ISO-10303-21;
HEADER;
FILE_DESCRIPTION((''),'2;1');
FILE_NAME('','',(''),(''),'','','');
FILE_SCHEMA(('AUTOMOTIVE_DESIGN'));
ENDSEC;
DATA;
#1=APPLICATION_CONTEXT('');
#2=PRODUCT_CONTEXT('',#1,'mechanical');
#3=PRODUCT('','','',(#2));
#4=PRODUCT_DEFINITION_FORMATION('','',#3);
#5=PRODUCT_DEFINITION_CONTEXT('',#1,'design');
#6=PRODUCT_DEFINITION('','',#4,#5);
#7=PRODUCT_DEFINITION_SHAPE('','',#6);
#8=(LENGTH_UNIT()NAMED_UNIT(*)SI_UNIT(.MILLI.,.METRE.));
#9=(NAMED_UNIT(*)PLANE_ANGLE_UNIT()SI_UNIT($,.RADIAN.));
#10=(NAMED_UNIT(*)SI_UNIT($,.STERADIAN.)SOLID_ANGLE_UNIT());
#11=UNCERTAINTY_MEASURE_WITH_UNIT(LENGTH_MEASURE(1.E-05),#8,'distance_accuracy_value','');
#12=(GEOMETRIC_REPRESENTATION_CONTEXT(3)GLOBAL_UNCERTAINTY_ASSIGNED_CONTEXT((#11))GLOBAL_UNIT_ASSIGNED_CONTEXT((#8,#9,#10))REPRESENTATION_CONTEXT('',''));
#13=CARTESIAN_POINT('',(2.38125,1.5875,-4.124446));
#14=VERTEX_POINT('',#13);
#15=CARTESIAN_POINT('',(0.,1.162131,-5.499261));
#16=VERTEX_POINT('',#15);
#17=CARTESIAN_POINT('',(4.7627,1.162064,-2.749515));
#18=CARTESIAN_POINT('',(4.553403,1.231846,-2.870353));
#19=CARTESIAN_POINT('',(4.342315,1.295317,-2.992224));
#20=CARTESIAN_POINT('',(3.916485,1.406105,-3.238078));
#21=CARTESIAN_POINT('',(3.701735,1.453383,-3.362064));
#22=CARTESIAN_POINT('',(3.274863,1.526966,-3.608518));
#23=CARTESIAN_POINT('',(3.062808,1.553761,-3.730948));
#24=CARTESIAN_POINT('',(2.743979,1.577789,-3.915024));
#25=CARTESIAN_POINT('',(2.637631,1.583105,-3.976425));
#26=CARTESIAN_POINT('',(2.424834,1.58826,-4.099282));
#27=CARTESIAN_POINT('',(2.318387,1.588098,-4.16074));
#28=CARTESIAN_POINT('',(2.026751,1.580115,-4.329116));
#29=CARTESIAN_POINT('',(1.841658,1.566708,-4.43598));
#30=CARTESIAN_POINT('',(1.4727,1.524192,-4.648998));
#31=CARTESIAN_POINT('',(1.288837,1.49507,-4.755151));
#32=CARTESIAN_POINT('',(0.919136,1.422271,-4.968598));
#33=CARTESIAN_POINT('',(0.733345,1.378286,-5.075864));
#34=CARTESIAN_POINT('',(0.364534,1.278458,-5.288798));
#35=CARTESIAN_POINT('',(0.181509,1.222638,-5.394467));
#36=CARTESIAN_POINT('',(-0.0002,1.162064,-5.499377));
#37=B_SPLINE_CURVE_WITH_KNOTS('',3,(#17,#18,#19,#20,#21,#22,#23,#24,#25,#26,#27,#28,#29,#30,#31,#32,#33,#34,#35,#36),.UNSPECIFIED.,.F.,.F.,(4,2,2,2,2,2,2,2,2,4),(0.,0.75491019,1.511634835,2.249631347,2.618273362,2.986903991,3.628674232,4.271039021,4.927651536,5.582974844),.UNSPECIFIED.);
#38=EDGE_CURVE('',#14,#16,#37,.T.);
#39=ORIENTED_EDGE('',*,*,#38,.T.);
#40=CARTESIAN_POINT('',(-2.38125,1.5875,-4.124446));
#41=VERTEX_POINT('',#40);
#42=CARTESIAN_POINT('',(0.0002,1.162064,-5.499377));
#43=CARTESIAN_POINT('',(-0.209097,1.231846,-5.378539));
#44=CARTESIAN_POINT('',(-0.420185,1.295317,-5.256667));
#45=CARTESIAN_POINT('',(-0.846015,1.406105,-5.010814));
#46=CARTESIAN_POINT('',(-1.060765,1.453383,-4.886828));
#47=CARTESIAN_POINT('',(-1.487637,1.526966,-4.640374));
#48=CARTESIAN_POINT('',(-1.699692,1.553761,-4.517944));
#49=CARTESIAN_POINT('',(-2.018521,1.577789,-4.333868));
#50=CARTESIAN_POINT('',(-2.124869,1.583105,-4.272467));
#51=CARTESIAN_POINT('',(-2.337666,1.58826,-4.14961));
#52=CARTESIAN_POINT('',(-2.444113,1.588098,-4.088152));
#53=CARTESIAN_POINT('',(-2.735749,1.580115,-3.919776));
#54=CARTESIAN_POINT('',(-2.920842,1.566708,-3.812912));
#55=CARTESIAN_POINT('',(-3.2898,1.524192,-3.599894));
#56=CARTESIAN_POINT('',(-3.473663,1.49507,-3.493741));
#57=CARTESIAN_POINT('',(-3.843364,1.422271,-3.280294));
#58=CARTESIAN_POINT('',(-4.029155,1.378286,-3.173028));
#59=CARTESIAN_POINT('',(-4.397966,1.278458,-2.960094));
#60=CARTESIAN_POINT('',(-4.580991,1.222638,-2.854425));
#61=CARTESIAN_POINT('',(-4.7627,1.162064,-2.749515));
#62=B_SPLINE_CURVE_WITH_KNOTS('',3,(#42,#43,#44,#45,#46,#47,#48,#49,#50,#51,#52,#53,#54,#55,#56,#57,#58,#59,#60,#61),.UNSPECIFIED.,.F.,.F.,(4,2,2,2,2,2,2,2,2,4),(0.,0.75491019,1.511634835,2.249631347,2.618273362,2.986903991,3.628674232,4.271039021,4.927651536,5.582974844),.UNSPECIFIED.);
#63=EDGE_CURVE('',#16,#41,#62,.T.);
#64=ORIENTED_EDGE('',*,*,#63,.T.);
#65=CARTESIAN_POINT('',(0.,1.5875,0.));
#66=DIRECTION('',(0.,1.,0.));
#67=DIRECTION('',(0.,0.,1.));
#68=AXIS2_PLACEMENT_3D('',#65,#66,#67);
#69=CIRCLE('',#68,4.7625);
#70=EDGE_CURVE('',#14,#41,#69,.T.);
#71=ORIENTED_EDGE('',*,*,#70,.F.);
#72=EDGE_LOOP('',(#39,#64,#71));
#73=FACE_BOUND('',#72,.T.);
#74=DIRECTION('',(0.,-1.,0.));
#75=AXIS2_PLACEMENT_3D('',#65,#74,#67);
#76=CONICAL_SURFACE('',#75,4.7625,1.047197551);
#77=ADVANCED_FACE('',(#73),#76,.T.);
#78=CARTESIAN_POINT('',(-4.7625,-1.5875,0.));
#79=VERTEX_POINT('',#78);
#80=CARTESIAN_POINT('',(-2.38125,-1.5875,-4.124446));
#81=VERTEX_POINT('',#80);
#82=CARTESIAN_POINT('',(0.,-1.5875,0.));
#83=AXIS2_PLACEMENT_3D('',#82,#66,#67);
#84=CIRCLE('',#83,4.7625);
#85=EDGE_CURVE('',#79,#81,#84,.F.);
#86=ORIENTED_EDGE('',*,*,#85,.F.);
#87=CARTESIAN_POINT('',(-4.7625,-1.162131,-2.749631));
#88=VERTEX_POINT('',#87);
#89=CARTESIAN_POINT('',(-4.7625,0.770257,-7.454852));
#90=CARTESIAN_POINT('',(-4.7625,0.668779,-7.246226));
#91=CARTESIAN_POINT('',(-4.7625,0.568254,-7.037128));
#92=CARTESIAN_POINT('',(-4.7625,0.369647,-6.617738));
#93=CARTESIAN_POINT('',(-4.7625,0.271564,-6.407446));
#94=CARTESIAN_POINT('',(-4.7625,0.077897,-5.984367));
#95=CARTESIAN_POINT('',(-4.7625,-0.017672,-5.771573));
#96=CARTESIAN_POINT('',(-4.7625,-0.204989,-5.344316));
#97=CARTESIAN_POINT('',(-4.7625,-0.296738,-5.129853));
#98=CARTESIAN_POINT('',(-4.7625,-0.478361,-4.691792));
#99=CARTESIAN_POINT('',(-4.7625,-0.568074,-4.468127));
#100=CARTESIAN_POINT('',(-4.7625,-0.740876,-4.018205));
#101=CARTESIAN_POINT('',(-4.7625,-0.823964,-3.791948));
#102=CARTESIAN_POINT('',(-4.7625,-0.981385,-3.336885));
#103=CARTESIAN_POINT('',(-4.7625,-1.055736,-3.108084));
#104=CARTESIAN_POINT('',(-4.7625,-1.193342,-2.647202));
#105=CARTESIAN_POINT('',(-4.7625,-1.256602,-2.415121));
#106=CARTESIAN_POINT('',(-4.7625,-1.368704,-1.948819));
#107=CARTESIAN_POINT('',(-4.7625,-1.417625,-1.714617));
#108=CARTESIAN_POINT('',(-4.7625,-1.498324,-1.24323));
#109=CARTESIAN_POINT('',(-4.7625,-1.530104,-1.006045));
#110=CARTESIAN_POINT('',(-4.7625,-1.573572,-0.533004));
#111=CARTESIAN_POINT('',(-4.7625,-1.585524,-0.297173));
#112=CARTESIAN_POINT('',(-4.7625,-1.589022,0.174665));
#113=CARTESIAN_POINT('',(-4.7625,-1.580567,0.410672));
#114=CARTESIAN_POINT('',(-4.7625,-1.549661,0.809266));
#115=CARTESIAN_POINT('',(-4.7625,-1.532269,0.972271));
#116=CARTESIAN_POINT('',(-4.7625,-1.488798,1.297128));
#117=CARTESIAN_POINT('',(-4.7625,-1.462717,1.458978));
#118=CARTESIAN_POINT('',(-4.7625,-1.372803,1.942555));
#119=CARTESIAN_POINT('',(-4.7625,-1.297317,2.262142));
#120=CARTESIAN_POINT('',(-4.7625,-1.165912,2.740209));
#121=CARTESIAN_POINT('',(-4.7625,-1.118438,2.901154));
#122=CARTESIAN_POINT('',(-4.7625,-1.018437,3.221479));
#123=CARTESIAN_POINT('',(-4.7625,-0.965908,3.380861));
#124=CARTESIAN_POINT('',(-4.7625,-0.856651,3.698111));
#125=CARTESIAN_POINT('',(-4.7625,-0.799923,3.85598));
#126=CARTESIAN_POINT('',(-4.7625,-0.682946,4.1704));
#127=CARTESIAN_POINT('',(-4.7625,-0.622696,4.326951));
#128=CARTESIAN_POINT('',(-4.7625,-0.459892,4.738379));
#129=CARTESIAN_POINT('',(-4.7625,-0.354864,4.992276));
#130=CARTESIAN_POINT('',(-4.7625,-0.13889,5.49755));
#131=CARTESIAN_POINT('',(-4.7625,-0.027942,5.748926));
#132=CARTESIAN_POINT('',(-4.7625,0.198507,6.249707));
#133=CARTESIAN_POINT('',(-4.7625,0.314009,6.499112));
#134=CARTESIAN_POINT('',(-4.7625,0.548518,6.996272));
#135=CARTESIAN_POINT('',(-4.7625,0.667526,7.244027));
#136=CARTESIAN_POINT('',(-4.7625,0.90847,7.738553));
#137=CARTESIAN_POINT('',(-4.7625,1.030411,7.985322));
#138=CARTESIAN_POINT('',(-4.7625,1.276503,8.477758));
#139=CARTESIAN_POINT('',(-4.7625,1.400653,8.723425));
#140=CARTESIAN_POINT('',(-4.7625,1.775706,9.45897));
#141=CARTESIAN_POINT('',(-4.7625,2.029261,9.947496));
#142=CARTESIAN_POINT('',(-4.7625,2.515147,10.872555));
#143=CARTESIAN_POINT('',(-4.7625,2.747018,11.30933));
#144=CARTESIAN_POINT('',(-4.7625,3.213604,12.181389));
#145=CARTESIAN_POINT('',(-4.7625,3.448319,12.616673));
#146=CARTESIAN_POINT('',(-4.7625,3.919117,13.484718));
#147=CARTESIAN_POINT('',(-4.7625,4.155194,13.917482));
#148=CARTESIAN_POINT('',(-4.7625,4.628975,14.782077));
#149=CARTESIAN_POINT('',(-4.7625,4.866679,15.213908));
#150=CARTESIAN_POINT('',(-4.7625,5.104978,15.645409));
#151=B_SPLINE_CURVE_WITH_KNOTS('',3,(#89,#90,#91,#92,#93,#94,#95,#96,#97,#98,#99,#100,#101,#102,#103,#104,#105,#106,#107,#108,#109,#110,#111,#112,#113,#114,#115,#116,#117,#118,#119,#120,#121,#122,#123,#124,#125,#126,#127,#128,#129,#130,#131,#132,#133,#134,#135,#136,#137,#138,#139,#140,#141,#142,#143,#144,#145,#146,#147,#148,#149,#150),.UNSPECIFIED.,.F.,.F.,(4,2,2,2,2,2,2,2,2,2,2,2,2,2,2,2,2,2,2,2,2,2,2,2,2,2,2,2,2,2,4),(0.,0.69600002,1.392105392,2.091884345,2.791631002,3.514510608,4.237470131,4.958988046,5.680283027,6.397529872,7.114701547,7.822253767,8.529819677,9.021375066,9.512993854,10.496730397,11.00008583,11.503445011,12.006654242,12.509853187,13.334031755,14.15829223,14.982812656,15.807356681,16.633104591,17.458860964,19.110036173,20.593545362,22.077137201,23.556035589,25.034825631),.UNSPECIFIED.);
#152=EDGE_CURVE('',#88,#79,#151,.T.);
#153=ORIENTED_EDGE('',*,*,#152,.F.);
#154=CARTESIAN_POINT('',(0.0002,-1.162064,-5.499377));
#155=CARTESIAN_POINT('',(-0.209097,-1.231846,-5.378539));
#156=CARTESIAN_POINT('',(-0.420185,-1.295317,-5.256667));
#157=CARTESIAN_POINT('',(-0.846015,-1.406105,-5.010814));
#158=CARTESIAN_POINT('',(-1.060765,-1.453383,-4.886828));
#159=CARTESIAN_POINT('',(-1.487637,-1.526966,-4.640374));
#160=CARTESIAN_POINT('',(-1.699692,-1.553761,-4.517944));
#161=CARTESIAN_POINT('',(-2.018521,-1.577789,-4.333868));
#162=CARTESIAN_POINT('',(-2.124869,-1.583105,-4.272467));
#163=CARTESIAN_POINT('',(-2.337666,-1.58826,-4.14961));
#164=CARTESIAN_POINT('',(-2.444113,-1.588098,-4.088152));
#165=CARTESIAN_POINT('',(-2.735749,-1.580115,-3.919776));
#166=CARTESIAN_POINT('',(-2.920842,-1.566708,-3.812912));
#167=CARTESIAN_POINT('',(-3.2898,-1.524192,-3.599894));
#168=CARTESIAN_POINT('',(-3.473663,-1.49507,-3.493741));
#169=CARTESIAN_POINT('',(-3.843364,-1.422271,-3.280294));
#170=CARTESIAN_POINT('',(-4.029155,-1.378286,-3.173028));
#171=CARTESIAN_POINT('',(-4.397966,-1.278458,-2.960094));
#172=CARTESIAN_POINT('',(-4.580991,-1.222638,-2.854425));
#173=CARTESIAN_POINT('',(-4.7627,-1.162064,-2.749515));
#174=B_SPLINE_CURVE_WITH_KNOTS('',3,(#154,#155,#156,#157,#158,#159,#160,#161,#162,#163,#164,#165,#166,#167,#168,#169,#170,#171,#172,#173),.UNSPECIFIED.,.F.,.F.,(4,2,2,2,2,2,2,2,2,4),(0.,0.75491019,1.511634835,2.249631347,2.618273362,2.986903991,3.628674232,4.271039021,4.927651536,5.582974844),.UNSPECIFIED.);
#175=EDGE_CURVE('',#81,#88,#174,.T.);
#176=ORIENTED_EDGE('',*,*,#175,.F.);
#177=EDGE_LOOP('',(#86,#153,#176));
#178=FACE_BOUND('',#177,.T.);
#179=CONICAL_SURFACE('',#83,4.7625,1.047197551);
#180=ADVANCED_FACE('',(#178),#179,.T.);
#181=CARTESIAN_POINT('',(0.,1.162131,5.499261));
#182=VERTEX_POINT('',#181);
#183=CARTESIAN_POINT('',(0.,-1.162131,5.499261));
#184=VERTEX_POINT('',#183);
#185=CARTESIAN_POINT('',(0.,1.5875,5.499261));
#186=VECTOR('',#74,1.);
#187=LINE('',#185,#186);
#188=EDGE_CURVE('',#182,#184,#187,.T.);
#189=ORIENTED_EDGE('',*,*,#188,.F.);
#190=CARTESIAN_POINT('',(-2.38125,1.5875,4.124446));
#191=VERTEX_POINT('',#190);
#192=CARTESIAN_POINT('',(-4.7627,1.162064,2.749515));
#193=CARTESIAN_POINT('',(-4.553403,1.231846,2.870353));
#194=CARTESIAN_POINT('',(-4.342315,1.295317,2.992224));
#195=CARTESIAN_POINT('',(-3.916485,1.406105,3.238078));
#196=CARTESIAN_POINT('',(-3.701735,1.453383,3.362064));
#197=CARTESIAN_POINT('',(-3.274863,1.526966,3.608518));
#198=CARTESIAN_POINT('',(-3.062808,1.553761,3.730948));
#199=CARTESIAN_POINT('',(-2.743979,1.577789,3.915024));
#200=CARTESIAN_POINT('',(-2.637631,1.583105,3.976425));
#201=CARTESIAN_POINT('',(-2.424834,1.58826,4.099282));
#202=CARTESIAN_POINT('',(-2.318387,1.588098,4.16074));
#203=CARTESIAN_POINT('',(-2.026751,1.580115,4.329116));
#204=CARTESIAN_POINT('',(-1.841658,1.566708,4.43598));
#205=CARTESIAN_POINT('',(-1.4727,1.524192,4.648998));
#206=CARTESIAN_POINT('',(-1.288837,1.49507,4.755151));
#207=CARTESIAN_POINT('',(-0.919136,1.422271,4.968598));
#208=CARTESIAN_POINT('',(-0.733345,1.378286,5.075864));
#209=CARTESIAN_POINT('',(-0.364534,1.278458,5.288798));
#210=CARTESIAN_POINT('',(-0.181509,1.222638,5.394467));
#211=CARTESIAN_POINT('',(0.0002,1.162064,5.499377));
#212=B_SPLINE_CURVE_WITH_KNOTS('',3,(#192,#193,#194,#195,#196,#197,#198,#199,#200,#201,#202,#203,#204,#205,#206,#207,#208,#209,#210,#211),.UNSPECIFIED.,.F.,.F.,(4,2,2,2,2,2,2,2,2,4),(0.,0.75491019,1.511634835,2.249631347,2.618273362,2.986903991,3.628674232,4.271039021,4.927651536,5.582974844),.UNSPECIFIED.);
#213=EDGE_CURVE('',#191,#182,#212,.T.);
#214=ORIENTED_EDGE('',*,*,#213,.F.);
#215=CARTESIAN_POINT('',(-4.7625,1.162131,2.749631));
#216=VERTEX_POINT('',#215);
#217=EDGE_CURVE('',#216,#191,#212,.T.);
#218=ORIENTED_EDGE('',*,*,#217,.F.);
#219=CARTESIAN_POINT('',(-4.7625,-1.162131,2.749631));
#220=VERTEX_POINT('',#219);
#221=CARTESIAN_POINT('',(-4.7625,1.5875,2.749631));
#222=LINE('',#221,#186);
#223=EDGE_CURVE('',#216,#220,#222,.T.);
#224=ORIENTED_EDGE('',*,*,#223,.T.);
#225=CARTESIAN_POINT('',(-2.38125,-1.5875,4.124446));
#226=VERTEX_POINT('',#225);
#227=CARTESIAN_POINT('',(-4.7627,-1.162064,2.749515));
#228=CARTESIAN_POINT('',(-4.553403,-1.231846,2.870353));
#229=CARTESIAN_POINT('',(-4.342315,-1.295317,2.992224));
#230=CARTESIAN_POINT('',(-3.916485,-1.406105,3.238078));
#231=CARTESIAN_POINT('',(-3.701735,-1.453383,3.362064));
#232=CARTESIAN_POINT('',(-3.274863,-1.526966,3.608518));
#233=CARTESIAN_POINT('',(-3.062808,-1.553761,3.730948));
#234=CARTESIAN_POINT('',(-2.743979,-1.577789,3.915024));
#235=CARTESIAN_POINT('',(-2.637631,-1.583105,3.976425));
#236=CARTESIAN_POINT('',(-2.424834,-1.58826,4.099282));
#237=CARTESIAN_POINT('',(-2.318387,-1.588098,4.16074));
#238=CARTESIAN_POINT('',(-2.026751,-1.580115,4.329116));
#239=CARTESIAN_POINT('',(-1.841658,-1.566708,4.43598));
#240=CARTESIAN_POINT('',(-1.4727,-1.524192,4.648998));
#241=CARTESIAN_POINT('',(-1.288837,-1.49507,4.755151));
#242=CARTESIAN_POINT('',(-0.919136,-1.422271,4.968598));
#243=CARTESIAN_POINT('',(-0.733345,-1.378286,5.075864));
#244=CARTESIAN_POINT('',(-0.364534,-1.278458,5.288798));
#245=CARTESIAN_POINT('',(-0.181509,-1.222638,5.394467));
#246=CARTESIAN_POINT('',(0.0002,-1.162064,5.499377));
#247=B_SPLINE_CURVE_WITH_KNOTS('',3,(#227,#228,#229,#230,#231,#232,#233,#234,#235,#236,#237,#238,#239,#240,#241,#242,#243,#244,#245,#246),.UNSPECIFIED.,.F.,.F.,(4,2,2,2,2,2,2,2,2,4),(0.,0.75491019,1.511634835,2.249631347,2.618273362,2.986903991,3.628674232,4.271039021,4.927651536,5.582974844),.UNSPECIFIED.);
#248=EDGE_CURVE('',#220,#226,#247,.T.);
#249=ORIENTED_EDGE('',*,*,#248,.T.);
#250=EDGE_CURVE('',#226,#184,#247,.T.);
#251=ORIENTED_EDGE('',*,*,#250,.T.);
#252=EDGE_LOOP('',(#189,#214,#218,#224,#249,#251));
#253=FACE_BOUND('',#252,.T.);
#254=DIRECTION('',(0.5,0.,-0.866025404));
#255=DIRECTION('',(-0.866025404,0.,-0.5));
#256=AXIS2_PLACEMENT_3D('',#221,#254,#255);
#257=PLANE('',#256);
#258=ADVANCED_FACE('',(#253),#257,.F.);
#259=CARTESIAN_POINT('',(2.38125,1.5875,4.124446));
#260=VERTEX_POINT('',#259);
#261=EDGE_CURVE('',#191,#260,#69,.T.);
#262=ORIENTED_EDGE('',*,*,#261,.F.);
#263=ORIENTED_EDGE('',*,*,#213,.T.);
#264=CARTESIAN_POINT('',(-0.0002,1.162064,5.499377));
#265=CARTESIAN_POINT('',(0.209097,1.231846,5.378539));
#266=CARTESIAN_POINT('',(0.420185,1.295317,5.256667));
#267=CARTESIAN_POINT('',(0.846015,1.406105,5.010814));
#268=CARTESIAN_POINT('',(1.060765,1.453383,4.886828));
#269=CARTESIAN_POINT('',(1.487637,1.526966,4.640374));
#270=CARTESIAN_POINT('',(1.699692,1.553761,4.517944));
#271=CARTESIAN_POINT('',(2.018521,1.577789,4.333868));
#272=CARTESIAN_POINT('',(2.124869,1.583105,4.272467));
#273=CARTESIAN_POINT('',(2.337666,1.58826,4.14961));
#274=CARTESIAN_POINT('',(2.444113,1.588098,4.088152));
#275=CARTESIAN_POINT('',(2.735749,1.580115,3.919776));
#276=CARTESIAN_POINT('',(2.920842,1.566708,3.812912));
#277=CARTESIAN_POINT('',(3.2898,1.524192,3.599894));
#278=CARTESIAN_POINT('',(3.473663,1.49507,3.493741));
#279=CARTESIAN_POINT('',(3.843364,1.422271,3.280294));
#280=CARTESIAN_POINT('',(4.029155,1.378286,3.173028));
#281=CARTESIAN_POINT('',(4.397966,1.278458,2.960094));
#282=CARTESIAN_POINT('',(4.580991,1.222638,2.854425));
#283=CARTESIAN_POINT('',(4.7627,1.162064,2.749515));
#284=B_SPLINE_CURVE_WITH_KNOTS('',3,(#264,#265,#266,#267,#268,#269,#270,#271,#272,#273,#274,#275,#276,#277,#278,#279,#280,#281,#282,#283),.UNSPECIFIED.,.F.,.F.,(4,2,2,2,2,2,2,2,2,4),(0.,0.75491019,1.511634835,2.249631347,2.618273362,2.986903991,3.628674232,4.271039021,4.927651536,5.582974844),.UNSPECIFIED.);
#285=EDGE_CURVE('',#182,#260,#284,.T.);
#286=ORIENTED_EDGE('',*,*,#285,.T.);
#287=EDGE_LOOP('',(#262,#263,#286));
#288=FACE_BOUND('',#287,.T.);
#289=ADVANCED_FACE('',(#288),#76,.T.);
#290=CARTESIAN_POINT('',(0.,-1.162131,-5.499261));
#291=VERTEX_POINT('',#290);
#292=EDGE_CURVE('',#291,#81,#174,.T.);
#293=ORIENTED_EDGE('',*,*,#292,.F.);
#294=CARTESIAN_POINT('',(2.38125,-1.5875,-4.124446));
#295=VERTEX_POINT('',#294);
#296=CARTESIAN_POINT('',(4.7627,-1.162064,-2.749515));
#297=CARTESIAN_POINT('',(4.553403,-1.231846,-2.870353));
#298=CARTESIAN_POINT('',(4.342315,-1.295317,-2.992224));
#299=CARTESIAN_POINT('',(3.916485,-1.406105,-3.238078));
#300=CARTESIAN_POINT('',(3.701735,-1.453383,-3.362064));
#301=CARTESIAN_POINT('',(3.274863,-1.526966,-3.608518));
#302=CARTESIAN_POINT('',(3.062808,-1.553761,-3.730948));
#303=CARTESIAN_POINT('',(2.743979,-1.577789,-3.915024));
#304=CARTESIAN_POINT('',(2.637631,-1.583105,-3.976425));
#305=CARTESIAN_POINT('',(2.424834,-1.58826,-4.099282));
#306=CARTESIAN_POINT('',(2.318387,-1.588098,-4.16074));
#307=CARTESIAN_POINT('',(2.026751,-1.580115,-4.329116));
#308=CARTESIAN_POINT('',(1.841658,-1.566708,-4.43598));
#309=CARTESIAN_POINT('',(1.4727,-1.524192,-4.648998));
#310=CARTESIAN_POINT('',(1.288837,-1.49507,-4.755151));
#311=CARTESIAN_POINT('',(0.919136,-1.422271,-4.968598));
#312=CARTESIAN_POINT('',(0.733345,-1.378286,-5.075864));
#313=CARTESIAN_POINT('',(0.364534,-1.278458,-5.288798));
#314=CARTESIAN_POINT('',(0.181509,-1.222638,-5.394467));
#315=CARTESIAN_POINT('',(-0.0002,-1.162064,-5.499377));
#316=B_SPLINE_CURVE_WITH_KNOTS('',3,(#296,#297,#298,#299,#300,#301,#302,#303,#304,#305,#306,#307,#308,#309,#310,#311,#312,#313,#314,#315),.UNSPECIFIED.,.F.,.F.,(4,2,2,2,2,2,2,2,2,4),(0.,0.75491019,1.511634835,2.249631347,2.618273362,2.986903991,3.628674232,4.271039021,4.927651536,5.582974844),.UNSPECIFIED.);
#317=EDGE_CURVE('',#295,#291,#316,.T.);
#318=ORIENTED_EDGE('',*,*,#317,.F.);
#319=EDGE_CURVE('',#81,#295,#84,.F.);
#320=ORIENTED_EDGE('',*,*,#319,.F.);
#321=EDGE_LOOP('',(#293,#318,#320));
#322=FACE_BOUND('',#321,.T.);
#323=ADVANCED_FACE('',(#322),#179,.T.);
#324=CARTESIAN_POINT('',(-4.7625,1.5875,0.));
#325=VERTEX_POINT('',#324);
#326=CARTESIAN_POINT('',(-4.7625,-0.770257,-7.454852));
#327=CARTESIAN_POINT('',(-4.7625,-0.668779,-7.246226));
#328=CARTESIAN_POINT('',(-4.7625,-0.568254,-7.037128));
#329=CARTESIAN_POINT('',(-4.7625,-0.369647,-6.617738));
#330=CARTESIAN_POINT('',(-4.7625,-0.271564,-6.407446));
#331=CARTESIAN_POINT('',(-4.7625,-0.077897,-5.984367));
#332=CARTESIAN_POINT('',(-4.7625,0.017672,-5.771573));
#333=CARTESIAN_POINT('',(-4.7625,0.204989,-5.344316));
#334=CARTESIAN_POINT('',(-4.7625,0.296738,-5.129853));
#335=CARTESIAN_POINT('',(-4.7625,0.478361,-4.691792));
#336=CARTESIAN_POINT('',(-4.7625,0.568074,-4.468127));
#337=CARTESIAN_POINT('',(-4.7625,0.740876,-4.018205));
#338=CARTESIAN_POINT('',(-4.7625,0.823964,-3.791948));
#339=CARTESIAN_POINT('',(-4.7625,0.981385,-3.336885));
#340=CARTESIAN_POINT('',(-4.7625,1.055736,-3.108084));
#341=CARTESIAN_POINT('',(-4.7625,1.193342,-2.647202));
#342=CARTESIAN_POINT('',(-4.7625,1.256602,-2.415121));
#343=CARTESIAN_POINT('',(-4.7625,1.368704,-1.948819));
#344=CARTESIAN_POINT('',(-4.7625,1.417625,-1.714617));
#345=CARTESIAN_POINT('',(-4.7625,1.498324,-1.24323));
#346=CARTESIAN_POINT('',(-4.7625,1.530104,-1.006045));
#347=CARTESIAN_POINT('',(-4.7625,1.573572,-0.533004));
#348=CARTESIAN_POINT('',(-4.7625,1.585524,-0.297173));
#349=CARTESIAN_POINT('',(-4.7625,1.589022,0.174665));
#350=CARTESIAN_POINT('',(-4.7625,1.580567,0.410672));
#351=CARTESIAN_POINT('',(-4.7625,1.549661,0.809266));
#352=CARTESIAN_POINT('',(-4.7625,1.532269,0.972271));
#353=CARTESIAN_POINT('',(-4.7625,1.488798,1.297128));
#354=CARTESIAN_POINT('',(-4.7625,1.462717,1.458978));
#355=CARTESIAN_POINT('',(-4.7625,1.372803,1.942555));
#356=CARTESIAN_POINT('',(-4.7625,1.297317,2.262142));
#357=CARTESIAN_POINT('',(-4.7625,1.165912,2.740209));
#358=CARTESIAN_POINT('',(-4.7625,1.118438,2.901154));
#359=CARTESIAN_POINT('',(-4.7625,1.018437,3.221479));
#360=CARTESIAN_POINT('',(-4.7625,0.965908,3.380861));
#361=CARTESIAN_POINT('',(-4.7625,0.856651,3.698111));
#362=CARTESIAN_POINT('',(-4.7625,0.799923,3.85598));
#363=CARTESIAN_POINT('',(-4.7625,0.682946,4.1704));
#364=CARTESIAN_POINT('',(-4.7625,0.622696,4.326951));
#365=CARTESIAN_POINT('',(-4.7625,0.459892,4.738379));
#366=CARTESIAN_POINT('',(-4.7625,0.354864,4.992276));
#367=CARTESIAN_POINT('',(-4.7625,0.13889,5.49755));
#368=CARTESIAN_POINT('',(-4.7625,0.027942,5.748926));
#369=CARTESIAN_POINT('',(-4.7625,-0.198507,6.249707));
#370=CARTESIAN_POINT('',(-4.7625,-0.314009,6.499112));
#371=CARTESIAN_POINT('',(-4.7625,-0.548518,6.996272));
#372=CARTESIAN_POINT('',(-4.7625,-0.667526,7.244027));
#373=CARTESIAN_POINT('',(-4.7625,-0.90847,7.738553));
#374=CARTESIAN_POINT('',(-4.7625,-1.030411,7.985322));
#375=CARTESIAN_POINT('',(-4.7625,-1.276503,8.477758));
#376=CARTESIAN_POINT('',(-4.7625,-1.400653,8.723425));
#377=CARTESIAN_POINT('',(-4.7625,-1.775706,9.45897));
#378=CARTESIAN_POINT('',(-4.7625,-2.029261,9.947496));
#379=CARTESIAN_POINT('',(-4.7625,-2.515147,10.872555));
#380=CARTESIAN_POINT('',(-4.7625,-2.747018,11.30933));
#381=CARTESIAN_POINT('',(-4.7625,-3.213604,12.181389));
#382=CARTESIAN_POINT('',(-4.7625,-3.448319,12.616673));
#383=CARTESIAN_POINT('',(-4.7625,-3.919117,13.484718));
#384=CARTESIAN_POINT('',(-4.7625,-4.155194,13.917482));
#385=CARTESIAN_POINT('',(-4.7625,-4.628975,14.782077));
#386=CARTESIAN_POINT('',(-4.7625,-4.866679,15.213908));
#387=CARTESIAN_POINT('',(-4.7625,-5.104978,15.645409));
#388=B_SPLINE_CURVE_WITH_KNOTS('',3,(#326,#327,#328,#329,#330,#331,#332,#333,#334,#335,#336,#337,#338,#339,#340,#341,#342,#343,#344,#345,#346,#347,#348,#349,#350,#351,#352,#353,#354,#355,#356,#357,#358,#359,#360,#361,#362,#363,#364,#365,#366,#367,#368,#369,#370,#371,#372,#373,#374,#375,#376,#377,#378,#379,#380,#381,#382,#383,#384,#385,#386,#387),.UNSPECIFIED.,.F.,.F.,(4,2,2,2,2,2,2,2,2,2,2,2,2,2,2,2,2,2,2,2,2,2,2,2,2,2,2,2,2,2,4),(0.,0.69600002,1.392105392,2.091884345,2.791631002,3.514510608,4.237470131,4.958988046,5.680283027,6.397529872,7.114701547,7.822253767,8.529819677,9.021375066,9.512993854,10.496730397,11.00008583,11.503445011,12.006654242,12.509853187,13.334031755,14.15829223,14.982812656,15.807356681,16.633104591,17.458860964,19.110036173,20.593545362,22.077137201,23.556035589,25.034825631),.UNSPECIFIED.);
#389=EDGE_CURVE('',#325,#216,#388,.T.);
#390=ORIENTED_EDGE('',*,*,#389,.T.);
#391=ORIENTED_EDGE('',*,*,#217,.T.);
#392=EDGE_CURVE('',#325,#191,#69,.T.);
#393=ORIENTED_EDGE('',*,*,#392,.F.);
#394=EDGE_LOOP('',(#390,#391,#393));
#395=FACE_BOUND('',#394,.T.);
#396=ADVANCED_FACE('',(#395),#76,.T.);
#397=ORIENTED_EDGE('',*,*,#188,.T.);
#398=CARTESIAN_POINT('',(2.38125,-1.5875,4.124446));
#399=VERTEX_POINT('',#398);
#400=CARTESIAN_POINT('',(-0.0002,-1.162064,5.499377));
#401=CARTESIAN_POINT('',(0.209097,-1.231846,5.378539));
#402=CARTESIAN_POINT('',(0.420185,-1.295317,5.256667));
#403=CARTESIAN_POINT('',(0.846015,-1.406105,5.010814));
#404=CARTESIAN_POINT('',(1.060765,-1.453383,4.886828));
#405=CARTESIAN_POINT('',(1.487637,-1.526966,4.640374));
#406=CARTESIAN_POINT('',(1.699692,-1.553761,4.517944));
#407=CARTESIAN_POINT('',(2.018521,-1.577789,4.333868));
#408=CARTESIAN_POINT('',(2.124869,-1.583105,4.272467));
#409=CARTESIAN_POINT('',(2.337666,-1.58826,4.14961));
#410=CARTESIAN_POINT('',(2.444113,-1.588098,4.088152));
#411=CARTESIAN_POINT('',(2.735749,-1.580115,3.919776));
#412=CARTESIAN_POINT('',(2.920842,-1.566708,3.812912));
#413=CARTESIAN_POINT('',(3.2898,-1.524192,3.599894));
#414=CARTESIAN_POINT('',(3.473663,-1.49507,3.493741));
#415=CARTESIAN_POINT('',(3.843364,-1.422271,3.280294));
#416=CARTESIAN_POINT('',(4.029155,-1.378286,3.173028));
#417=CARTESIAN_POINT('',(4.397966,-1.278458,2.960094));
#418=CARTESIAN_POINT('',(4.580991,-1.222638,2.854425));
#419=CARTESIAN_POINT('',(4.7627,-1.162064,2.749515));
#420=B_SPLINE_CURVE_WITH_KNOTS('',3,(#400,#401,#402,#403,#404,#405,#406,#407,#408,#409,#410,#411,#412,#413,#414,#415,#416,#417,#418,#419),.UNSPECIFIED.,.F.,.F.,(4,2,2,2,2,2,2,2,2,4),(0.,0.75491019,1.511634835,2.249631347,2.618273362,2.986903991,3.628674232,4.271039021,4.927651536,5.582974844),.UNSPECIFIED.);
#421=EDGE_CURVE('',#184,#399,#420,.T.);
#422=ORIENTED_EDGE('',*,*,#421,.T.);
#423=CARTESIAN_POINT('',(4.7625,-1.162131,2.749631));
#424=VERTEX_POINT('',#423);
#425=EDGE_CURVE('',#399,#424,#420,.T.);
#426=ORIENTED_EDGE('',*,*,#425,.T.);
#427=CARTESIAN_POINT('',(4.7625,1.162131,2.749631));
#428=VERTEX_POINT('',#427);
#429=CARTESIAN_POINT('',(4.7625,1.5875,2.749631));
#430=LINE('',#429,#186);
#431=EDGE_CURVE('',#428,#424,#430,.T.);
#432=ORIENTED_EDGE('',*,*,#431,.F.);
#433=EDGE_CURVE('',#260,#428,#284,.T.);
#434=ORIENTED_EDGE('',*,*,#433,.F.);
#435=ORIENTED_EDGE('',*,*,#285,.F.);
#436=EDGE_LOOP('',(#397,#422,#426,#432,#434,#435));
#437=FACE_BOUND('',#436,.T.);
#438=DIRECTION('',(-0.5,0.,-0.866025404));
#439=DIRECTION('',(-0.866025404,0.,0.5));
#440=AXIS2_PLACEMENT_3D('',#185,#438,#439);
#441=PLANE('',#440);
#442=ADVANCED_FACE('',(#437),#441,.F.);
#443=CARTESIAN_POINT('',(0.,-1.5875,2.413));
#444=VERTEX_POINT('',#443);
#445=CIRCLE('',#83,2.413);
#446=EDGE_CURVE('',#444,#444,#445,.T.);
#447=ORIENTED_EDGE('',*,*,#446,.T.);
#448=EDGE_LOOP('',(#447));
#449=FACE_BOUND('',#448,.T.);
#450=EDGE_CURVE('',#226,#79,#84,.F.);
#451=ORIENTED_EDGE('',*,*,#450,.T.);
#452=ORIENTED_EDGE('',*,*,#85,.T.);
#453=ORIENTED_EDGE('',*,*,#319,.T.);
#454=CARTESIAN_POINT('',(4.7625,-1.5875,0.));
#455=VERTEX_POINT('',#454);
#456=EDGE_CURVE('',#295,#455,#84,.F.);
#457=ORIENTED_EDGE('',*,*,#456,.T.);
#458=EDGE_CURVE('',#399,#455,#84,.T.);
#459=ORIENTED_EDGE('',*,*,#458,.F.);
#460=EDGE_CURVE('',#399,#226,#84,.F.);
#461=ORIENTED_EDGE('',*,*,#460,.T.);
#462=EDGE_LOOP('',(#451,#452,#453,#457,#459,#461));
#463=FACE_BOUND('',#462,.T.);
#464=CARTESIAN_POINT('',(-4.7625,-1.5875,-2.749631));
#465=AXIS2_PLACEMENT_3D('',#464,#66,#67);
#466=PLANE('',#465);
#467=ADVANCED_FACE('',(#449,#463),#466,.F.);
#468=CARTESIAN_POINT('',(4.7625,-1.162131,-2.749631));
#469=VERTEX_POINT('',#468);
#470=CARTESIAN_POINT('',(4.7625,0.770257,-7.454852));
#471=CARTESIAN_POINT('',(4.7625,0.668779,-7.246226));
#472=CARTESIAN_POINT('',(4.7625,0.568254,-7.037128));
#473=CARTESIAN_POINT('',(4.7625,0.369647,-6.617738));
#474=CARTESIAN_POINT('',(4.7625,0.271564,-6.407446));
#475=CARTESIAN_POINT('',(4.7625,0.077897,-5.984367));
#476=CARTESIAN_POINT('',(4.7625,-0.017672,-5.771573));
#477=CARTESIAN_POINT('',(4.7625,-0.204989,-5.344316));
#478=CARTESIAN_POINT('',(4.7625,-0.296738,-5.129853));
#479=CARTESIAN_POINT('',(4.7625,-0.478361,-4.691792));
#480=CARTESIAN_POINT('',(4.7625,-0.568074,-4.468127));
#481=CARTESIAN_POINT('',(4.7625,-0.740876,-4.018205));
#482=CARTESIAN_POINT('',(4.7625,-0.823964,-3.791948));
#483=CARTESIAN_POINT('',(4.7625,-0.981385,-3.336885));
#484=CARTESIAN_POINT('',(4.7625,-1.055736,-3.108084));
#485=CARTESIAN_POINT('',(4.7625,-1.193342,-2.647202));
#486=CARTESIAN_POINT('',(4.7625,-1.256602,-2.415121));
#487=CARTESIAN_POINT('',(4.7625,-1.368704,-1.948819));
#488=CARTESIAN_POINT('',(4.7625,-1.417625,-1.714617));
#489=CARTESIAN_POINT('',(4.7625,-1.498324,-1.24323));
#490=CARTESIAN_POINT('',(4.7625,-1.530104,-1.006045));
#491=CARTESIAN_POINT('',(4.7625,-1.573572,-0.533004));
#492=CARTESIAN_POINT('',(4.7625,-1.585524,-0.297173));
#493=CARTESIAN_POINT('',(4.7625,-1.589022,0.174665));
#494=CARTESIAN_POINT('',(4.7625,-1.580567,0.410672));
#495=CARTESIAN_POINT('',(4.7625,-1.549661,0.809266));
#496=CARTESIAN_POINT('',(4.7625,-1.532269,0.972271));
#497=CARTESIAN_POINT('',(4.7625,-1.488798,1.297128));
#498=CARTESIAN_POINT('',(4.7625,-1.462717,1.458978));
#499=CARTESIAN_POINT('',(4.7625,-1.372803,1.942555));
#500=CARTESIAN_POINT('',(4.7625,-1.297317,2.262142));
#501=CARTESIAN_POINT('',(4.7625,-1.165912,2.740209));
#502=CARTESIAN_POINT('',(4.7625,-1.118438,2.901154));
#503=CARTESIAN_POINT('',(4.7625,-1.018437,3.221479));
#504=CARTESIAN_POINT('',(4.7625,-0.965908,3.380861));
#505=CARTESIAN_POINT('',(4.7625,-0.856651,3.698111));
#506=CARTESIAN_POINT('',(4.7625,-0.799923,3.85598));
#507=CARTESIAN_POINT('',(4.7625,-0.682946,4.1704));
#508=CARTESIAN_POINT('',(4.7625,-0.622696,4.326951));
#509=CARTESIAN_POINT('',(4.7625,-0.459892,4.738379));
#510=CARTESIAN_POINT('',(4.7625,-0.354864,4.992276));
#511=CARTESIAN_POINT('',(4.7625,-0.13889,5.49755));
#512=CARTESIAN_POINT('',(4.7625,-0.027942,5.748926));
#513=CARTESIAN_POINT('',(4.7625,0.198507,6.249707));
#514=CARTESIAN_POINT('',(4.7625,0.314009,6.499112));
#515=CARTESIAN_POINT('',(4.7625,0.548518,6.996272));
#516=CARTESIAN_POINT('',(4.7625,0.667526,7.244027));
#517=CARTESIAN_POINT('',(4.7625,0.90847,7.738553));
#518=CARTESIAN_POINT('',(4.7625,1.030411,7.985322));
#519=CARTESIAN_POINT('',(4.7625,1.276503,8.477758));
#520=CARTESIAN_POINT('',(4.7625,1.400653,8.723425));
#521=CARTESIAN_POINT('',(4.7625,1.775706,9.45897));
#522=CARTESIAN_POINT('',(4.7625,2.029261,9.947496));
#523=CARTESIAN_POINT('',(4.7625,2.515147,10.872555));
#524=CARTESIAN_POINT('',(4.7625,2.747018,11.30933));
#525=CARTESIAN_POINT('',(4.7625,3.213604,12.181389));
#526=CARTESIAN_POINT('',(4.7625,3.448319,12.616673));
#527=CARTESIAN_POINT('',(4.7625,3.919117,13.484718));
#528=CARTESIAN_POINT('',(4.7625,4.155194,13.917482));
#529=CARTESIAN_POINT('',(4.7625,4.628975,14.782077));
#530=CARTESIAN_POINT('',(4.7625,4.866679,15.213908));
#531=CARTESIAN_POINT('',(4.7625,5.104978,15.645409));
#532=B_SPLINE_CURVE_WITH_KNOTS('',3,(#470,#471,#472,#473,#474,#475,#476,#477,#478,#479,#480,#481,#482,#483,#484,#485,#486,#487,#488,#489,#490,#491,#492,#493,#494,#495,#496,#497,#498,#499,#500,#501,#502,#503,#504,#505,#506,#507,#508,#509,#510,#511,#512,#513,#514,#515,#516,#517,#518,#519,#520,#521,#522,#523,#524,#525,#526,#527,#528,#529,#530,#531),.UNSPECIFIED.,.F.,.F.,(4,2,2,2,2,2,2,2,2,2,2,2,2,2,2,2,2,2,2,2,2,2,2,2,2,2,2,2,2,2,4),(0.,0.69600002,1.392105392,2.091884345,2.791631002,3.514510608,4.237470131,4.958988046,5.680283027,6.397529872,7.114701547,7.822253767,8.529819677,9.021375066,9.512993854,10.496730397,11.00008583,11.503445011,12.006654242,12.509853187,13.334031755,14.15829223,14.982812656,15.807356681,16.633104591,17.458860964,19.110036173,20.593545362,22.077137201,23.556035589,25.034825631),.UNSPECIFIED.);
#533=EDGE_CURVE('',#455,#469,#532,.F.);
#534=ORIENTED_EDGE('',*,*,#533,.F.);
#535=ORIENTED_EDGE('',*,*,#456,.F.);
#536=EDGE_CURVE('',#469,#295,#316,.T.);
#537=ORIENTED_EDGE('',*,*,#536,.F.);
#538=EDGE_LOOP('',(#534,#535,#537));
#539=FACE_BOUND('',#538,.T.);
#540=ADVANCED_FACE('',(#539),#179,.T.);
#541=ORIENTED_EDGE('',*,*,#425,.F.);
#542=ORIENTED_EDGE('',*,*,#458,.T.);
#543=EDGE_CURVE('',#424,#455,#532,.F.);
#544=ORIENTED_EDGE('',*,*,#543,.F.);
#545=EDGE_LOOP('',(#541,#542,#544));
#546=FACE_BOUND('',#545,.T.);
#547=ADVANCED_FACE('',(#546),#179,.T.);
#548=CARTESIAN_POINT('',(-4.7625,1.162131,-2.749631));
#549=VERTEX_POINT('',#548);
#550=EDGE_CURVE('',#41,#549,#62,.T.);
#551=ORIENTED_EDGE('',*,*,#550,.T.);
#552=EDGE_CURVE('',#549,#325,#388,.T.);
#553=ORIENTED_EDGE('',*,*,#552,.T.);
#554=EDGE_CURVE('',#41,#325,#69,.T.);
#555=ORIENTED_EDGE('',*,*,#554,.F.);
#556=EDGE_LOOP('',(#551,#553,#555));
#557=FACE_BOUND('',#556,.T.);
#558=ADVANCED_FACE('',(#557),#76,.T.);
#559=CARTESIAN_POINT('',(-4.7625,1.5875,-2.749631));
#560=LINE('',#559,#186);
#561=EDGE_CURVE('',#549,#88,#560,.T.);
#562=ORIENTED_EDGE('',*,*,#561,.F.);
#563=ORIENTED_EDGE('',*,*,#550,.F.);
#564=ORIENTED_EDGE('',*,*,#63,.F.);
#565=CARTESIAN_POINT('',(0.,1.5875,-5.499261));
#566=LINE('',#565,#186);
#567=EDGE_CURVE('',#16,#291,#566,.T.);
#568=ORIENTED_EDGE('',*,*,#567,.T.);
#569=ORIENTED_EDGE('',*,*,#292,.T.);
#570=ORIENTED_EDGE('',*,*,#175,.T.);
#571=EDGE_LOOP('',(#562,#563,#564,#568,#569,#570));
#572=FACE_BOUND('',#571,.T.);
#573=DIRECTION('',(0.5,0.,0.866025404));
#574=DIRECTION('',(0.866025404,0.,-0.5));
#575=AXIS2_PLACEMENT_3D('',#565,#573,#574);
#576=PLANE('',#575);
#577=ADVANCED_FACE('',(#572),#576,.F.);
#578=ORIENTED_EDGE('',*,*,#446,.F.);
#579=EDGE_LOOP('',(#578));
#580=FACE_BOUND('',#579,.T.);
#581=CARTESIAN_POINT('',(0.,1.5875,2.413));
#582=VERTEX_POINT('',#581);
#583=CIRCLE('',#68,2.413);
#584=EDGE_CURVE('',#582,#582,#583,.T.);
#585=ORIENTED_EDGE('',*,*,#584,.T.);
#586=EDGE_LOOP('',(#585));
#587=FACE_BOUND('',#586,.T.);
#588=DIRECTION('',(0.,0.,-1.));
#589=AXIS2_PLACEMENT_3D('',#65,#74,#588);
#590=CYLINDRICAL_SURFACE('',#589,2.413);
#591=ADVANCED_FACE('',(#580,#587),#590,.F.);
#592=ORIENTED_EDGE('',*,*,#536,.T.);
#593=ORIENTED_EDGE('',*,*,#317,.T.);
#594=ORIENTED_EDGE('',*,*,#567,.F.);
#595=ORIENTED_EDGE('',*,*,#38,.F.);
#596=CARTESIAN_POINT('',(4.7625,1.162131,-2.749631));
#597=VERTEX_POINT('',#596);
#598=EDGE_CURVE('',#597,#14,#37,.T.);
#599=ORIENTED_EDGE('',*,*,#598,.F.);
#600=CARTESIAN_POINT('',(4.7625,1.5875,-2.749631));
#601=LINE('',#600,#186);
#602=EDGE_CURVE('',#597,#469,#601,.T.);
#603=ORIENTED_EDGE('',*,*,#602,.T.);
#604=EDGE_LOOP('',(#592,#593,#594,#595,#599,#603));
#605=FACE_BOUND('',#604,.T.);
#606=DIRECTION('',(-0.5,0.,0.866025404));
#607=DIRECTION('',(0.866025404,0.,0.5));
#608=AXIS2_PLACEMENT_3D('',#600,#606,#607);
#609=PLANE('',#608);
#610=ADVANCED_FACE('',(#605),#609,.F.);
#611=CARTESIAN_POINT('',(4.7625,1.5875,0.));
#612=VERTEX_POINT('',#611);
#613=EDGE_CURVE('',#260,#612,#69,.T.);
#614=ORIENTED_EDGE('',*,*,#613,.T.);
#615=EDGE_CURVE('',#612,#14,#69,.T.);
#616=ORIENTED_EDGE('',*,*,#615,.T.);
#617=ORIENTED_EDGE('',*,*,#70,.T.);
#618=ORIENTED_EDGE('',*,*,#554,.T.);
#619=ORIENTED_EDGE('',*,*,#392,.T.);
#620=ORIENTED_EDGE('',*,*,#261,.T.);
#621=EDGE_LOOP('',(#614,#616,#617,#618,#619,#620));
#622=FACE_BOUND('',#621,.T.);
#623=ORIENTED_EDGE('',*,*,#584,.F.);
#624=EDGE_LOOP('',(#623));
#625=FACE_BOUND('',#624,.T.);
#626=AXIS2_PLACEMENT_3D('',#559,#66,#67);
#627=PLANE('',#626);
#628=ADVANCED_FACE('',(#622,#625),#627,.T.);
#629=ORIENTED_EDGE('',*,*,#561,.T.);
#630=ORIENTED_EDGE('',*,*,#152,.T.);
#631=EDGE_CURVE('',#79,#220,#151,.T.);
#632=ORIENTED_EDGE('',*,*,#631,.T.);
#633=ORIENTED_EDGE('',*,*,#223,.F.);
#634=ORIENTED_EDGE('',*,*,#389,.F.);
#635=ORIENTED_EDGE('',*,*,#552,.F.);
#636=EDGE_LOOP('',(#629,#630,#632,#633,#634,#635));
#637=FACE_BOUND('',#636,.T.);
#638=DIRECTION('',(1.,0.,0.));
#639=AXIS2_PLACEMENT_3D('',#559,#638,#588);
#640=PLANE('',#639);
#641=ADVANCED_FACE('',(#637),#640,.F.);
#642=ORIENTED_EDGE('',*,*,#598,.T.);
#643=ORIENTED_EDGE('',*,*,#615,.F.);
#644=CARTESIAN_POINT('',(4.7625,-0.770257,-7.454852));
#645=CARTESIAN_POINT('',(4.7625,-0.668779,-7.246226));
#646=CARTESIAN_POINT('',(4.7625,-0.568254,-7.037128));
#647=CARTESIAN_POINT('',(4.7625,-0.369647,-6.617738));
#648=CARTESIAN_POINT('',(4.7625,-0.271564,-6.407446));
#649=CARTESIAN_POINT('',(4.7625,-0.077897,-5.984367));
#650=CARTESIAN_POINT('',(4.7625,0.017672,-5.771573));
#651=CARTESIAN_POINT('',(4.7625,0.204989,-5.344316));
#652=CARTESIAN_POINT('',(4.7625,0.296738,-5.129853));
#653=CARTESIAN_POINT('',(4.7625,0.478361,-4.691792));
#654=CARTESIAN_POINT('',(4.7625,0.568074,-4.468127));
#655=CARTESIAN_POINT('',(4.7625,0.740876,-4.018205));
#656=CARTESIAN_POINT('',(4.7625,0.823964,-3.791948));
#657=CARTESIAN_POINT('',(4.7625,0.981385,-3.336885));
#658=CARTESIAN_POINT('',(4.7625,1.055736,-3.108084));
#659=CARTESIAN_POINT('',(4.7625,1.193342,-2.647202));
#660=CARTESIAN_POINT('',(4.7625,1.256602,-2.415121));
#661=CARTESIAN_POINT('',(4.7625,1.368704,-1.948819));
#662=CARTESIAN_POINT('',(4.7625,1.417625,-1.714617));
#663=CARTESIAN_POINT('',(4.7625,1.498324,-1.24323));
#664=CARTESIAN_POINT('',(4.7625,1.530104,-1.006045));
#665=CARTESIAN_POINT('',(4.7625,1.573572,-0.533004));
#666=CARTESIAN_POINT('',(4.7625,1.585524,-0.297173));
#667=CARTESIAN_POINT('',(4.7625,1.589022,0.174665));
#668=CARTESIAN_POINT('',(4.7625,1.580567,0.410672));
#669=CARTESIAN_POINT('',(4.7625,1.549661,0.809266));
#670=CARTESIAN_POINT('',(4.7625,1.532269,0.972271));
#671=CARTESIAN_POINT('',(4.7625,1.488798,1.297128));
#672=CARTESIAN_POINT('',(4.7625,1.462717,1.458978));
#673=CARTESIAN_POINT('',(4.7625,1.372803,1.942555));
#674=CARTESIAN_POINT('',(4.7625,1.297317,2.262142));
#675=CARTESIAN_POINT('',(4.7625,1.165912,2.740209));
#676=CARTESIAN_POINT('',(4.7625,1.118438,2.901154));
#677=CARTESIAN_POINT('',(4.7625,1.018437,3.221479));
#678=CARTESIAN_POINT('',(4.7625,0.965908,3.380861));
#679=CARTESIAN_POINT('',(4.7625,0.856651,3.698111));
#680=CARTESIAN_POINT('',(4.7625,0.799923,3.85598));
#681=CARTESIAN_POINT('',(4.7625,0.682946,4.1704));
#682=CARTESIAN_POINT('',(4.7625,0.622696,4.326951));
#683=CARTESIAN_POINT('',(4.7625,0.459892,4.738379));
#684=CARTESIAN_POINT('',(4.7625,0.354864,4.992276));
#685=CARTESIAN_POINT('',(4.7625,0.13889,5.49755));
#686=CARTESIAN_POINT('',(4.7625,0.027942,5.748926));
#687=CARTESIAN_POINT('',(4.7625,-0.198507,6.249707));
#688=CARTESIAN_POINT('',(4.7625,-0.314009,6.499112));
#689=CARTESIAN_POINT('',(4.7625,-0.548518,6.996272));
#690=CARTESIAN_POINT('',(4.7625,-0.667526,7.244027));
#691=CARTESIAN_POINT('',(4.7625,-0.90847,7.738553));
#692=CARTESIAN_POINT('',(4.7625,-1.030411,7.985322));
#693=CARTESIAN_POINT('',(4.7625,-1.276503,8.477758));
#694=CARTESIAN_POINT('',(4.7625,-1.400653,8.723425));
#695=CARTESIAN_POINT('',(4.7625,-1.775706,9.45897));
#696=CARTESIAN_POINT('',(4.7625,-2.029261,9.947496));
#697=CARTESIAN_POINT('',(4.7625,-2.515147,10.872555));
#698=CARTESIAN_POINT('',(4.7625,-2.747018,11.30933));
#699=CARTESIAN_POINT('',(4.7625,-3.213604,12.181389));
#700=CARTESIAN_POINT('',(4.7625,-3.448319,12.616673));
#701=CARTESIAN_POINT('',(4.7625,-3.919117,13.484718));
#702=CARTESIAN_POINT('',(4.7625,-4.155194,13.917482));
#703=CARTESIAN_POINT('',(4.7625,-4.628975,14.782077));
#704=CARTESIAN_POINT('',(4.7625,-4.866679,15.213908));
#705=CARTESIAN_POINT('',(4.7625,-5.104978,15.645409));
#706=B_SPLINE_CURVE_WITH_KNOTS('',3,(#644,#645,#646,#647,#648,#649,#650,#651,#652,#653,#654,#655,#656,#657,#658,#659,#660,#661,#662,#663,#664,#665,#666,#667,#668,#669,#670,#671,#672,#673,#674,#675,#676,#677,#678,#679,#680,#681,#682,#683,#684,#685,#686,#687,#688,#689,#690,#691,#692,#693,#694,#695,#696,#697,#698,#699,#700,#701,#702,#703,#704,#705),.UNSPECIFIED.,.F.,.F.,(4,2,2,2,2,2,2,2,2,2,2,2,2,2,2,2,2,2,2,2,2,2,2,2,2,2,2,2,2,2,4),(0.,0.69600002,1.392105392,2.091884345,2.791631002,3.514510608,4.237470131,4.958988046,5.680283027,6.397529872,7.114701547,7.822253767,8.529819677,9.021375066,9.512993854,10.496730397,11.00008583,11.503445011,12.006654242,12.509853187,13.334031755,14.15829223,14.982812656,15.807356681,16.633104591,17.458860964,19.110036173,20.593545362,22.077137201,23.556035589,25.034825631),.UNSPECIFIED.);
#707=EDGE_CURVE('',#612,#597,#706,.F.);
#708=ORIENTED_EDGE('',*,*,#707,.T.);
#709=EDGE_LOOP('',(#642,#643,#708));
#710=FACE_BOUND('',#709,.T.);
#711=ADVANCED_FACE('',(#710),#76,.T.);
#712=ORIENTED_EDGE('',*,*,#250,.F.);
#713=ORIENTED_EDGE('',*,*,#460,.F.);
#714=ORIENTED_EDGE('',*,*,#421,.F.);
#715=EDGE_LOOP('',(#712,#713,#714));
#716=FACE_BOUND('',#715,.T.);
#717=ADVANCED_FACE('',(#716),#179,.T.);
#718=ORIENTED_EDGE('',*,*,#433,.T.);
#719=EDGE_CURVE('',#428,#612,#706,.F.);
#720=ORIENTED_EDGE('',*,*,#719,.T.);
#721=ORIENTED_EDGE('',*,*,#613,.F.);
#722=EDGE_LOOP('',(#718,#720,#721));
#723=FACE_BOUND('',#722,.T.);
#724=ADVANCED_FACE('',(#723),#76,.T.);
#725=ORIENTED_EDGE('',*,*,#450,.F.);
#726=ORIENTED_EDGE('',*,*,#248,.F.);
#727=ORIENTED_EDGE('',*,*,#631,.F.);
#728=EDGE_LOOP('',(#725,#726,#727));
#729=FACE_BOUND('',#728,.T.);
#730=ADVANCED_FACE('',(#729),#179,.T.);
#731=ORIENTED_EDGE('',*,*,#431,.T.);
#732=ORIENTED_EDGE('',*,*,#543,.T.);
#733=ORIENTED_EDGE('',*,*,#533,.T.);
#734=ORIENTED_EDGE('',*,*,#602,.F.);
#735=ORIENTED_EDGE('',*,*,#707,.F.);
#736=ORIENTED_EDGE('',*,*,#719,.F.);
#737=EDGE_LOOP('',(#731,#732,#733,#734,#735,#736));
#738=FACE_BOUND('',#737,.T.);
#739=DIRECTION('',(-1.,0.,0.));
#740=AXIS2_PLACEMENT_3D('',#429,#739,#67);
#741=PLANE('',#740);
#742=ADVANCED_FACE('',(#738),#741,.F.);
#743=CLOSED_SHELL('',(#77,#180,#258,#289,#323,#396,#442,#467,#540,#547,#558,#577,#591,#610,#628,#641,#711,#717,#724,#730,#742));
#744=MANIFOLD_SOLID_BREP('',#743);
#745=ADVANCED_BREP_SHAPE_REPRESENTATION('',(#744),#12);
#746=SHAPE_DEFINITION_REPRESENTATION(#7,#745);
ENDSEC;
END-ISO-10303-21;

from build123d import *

# Parameters (mm, degrees)
SKETCH1_R           = 2.413
BOSS_EXTRUDE1_DEPTH = 1.5875
SKETCH5_OUTSIDE_W   = 28.968
SKETCH5_OUTSIDE_H   = 30.44
SKETCH5_OUTSIDE_R   = 4.7625
CUT_EXTRUDE2_DEPTH  = 4.175
CUT_EXTRUDE2_TAPER  = 60


with BuildPart() as part:
    # Sketch1 → Boss-Extrude1 (new body, symmetric)
    with BuildSketch(Plane(origin=(0, 0, 0), x_dir=(1, 0, 0), z_dir=(0, 1, 0))):
        Polygon((-4.7625, 2.749630657), (-4.7625, -2.749630657), (0, -5.499261314), (4.7625, -2.749630657), (4.7625, 2.749630657), (0, 5.499261314), align=None)
        Circle(SKETCH1_R, mode=Mode.SUBTRACT)
    extrude(amount=BOSS_EXTRUDE1_DEPTH, both=True)

    # Sketch5 outside → Cut-Extrude2 (cut, through all)
    with BuildSketch(Plane(origin=(0, 1.5875, 0), x_dir=(1, 0, 0), z_dir=(0, 1, 0))):
        Rectangle(SKETCH5_OUTSIDE_W, SKETCH5_OUTSIDE_H)
        Circle(SKETCH5_OUTSIDE_R, mode=Mode.SUBTRACT)
    cut_extrude2 = extrude(amount=-CUT_EXTRUDE2_DEPTH, taper=CUT_EXTRUDE2_TAPER, mode=Mode.SUBTRACT)

    # Mirror1: Cut-Extrude2 across plane
    add(cut_extrude2.mirror(Plane.ZX), mode=Mode.SUBTRACT)


solid = part.part
